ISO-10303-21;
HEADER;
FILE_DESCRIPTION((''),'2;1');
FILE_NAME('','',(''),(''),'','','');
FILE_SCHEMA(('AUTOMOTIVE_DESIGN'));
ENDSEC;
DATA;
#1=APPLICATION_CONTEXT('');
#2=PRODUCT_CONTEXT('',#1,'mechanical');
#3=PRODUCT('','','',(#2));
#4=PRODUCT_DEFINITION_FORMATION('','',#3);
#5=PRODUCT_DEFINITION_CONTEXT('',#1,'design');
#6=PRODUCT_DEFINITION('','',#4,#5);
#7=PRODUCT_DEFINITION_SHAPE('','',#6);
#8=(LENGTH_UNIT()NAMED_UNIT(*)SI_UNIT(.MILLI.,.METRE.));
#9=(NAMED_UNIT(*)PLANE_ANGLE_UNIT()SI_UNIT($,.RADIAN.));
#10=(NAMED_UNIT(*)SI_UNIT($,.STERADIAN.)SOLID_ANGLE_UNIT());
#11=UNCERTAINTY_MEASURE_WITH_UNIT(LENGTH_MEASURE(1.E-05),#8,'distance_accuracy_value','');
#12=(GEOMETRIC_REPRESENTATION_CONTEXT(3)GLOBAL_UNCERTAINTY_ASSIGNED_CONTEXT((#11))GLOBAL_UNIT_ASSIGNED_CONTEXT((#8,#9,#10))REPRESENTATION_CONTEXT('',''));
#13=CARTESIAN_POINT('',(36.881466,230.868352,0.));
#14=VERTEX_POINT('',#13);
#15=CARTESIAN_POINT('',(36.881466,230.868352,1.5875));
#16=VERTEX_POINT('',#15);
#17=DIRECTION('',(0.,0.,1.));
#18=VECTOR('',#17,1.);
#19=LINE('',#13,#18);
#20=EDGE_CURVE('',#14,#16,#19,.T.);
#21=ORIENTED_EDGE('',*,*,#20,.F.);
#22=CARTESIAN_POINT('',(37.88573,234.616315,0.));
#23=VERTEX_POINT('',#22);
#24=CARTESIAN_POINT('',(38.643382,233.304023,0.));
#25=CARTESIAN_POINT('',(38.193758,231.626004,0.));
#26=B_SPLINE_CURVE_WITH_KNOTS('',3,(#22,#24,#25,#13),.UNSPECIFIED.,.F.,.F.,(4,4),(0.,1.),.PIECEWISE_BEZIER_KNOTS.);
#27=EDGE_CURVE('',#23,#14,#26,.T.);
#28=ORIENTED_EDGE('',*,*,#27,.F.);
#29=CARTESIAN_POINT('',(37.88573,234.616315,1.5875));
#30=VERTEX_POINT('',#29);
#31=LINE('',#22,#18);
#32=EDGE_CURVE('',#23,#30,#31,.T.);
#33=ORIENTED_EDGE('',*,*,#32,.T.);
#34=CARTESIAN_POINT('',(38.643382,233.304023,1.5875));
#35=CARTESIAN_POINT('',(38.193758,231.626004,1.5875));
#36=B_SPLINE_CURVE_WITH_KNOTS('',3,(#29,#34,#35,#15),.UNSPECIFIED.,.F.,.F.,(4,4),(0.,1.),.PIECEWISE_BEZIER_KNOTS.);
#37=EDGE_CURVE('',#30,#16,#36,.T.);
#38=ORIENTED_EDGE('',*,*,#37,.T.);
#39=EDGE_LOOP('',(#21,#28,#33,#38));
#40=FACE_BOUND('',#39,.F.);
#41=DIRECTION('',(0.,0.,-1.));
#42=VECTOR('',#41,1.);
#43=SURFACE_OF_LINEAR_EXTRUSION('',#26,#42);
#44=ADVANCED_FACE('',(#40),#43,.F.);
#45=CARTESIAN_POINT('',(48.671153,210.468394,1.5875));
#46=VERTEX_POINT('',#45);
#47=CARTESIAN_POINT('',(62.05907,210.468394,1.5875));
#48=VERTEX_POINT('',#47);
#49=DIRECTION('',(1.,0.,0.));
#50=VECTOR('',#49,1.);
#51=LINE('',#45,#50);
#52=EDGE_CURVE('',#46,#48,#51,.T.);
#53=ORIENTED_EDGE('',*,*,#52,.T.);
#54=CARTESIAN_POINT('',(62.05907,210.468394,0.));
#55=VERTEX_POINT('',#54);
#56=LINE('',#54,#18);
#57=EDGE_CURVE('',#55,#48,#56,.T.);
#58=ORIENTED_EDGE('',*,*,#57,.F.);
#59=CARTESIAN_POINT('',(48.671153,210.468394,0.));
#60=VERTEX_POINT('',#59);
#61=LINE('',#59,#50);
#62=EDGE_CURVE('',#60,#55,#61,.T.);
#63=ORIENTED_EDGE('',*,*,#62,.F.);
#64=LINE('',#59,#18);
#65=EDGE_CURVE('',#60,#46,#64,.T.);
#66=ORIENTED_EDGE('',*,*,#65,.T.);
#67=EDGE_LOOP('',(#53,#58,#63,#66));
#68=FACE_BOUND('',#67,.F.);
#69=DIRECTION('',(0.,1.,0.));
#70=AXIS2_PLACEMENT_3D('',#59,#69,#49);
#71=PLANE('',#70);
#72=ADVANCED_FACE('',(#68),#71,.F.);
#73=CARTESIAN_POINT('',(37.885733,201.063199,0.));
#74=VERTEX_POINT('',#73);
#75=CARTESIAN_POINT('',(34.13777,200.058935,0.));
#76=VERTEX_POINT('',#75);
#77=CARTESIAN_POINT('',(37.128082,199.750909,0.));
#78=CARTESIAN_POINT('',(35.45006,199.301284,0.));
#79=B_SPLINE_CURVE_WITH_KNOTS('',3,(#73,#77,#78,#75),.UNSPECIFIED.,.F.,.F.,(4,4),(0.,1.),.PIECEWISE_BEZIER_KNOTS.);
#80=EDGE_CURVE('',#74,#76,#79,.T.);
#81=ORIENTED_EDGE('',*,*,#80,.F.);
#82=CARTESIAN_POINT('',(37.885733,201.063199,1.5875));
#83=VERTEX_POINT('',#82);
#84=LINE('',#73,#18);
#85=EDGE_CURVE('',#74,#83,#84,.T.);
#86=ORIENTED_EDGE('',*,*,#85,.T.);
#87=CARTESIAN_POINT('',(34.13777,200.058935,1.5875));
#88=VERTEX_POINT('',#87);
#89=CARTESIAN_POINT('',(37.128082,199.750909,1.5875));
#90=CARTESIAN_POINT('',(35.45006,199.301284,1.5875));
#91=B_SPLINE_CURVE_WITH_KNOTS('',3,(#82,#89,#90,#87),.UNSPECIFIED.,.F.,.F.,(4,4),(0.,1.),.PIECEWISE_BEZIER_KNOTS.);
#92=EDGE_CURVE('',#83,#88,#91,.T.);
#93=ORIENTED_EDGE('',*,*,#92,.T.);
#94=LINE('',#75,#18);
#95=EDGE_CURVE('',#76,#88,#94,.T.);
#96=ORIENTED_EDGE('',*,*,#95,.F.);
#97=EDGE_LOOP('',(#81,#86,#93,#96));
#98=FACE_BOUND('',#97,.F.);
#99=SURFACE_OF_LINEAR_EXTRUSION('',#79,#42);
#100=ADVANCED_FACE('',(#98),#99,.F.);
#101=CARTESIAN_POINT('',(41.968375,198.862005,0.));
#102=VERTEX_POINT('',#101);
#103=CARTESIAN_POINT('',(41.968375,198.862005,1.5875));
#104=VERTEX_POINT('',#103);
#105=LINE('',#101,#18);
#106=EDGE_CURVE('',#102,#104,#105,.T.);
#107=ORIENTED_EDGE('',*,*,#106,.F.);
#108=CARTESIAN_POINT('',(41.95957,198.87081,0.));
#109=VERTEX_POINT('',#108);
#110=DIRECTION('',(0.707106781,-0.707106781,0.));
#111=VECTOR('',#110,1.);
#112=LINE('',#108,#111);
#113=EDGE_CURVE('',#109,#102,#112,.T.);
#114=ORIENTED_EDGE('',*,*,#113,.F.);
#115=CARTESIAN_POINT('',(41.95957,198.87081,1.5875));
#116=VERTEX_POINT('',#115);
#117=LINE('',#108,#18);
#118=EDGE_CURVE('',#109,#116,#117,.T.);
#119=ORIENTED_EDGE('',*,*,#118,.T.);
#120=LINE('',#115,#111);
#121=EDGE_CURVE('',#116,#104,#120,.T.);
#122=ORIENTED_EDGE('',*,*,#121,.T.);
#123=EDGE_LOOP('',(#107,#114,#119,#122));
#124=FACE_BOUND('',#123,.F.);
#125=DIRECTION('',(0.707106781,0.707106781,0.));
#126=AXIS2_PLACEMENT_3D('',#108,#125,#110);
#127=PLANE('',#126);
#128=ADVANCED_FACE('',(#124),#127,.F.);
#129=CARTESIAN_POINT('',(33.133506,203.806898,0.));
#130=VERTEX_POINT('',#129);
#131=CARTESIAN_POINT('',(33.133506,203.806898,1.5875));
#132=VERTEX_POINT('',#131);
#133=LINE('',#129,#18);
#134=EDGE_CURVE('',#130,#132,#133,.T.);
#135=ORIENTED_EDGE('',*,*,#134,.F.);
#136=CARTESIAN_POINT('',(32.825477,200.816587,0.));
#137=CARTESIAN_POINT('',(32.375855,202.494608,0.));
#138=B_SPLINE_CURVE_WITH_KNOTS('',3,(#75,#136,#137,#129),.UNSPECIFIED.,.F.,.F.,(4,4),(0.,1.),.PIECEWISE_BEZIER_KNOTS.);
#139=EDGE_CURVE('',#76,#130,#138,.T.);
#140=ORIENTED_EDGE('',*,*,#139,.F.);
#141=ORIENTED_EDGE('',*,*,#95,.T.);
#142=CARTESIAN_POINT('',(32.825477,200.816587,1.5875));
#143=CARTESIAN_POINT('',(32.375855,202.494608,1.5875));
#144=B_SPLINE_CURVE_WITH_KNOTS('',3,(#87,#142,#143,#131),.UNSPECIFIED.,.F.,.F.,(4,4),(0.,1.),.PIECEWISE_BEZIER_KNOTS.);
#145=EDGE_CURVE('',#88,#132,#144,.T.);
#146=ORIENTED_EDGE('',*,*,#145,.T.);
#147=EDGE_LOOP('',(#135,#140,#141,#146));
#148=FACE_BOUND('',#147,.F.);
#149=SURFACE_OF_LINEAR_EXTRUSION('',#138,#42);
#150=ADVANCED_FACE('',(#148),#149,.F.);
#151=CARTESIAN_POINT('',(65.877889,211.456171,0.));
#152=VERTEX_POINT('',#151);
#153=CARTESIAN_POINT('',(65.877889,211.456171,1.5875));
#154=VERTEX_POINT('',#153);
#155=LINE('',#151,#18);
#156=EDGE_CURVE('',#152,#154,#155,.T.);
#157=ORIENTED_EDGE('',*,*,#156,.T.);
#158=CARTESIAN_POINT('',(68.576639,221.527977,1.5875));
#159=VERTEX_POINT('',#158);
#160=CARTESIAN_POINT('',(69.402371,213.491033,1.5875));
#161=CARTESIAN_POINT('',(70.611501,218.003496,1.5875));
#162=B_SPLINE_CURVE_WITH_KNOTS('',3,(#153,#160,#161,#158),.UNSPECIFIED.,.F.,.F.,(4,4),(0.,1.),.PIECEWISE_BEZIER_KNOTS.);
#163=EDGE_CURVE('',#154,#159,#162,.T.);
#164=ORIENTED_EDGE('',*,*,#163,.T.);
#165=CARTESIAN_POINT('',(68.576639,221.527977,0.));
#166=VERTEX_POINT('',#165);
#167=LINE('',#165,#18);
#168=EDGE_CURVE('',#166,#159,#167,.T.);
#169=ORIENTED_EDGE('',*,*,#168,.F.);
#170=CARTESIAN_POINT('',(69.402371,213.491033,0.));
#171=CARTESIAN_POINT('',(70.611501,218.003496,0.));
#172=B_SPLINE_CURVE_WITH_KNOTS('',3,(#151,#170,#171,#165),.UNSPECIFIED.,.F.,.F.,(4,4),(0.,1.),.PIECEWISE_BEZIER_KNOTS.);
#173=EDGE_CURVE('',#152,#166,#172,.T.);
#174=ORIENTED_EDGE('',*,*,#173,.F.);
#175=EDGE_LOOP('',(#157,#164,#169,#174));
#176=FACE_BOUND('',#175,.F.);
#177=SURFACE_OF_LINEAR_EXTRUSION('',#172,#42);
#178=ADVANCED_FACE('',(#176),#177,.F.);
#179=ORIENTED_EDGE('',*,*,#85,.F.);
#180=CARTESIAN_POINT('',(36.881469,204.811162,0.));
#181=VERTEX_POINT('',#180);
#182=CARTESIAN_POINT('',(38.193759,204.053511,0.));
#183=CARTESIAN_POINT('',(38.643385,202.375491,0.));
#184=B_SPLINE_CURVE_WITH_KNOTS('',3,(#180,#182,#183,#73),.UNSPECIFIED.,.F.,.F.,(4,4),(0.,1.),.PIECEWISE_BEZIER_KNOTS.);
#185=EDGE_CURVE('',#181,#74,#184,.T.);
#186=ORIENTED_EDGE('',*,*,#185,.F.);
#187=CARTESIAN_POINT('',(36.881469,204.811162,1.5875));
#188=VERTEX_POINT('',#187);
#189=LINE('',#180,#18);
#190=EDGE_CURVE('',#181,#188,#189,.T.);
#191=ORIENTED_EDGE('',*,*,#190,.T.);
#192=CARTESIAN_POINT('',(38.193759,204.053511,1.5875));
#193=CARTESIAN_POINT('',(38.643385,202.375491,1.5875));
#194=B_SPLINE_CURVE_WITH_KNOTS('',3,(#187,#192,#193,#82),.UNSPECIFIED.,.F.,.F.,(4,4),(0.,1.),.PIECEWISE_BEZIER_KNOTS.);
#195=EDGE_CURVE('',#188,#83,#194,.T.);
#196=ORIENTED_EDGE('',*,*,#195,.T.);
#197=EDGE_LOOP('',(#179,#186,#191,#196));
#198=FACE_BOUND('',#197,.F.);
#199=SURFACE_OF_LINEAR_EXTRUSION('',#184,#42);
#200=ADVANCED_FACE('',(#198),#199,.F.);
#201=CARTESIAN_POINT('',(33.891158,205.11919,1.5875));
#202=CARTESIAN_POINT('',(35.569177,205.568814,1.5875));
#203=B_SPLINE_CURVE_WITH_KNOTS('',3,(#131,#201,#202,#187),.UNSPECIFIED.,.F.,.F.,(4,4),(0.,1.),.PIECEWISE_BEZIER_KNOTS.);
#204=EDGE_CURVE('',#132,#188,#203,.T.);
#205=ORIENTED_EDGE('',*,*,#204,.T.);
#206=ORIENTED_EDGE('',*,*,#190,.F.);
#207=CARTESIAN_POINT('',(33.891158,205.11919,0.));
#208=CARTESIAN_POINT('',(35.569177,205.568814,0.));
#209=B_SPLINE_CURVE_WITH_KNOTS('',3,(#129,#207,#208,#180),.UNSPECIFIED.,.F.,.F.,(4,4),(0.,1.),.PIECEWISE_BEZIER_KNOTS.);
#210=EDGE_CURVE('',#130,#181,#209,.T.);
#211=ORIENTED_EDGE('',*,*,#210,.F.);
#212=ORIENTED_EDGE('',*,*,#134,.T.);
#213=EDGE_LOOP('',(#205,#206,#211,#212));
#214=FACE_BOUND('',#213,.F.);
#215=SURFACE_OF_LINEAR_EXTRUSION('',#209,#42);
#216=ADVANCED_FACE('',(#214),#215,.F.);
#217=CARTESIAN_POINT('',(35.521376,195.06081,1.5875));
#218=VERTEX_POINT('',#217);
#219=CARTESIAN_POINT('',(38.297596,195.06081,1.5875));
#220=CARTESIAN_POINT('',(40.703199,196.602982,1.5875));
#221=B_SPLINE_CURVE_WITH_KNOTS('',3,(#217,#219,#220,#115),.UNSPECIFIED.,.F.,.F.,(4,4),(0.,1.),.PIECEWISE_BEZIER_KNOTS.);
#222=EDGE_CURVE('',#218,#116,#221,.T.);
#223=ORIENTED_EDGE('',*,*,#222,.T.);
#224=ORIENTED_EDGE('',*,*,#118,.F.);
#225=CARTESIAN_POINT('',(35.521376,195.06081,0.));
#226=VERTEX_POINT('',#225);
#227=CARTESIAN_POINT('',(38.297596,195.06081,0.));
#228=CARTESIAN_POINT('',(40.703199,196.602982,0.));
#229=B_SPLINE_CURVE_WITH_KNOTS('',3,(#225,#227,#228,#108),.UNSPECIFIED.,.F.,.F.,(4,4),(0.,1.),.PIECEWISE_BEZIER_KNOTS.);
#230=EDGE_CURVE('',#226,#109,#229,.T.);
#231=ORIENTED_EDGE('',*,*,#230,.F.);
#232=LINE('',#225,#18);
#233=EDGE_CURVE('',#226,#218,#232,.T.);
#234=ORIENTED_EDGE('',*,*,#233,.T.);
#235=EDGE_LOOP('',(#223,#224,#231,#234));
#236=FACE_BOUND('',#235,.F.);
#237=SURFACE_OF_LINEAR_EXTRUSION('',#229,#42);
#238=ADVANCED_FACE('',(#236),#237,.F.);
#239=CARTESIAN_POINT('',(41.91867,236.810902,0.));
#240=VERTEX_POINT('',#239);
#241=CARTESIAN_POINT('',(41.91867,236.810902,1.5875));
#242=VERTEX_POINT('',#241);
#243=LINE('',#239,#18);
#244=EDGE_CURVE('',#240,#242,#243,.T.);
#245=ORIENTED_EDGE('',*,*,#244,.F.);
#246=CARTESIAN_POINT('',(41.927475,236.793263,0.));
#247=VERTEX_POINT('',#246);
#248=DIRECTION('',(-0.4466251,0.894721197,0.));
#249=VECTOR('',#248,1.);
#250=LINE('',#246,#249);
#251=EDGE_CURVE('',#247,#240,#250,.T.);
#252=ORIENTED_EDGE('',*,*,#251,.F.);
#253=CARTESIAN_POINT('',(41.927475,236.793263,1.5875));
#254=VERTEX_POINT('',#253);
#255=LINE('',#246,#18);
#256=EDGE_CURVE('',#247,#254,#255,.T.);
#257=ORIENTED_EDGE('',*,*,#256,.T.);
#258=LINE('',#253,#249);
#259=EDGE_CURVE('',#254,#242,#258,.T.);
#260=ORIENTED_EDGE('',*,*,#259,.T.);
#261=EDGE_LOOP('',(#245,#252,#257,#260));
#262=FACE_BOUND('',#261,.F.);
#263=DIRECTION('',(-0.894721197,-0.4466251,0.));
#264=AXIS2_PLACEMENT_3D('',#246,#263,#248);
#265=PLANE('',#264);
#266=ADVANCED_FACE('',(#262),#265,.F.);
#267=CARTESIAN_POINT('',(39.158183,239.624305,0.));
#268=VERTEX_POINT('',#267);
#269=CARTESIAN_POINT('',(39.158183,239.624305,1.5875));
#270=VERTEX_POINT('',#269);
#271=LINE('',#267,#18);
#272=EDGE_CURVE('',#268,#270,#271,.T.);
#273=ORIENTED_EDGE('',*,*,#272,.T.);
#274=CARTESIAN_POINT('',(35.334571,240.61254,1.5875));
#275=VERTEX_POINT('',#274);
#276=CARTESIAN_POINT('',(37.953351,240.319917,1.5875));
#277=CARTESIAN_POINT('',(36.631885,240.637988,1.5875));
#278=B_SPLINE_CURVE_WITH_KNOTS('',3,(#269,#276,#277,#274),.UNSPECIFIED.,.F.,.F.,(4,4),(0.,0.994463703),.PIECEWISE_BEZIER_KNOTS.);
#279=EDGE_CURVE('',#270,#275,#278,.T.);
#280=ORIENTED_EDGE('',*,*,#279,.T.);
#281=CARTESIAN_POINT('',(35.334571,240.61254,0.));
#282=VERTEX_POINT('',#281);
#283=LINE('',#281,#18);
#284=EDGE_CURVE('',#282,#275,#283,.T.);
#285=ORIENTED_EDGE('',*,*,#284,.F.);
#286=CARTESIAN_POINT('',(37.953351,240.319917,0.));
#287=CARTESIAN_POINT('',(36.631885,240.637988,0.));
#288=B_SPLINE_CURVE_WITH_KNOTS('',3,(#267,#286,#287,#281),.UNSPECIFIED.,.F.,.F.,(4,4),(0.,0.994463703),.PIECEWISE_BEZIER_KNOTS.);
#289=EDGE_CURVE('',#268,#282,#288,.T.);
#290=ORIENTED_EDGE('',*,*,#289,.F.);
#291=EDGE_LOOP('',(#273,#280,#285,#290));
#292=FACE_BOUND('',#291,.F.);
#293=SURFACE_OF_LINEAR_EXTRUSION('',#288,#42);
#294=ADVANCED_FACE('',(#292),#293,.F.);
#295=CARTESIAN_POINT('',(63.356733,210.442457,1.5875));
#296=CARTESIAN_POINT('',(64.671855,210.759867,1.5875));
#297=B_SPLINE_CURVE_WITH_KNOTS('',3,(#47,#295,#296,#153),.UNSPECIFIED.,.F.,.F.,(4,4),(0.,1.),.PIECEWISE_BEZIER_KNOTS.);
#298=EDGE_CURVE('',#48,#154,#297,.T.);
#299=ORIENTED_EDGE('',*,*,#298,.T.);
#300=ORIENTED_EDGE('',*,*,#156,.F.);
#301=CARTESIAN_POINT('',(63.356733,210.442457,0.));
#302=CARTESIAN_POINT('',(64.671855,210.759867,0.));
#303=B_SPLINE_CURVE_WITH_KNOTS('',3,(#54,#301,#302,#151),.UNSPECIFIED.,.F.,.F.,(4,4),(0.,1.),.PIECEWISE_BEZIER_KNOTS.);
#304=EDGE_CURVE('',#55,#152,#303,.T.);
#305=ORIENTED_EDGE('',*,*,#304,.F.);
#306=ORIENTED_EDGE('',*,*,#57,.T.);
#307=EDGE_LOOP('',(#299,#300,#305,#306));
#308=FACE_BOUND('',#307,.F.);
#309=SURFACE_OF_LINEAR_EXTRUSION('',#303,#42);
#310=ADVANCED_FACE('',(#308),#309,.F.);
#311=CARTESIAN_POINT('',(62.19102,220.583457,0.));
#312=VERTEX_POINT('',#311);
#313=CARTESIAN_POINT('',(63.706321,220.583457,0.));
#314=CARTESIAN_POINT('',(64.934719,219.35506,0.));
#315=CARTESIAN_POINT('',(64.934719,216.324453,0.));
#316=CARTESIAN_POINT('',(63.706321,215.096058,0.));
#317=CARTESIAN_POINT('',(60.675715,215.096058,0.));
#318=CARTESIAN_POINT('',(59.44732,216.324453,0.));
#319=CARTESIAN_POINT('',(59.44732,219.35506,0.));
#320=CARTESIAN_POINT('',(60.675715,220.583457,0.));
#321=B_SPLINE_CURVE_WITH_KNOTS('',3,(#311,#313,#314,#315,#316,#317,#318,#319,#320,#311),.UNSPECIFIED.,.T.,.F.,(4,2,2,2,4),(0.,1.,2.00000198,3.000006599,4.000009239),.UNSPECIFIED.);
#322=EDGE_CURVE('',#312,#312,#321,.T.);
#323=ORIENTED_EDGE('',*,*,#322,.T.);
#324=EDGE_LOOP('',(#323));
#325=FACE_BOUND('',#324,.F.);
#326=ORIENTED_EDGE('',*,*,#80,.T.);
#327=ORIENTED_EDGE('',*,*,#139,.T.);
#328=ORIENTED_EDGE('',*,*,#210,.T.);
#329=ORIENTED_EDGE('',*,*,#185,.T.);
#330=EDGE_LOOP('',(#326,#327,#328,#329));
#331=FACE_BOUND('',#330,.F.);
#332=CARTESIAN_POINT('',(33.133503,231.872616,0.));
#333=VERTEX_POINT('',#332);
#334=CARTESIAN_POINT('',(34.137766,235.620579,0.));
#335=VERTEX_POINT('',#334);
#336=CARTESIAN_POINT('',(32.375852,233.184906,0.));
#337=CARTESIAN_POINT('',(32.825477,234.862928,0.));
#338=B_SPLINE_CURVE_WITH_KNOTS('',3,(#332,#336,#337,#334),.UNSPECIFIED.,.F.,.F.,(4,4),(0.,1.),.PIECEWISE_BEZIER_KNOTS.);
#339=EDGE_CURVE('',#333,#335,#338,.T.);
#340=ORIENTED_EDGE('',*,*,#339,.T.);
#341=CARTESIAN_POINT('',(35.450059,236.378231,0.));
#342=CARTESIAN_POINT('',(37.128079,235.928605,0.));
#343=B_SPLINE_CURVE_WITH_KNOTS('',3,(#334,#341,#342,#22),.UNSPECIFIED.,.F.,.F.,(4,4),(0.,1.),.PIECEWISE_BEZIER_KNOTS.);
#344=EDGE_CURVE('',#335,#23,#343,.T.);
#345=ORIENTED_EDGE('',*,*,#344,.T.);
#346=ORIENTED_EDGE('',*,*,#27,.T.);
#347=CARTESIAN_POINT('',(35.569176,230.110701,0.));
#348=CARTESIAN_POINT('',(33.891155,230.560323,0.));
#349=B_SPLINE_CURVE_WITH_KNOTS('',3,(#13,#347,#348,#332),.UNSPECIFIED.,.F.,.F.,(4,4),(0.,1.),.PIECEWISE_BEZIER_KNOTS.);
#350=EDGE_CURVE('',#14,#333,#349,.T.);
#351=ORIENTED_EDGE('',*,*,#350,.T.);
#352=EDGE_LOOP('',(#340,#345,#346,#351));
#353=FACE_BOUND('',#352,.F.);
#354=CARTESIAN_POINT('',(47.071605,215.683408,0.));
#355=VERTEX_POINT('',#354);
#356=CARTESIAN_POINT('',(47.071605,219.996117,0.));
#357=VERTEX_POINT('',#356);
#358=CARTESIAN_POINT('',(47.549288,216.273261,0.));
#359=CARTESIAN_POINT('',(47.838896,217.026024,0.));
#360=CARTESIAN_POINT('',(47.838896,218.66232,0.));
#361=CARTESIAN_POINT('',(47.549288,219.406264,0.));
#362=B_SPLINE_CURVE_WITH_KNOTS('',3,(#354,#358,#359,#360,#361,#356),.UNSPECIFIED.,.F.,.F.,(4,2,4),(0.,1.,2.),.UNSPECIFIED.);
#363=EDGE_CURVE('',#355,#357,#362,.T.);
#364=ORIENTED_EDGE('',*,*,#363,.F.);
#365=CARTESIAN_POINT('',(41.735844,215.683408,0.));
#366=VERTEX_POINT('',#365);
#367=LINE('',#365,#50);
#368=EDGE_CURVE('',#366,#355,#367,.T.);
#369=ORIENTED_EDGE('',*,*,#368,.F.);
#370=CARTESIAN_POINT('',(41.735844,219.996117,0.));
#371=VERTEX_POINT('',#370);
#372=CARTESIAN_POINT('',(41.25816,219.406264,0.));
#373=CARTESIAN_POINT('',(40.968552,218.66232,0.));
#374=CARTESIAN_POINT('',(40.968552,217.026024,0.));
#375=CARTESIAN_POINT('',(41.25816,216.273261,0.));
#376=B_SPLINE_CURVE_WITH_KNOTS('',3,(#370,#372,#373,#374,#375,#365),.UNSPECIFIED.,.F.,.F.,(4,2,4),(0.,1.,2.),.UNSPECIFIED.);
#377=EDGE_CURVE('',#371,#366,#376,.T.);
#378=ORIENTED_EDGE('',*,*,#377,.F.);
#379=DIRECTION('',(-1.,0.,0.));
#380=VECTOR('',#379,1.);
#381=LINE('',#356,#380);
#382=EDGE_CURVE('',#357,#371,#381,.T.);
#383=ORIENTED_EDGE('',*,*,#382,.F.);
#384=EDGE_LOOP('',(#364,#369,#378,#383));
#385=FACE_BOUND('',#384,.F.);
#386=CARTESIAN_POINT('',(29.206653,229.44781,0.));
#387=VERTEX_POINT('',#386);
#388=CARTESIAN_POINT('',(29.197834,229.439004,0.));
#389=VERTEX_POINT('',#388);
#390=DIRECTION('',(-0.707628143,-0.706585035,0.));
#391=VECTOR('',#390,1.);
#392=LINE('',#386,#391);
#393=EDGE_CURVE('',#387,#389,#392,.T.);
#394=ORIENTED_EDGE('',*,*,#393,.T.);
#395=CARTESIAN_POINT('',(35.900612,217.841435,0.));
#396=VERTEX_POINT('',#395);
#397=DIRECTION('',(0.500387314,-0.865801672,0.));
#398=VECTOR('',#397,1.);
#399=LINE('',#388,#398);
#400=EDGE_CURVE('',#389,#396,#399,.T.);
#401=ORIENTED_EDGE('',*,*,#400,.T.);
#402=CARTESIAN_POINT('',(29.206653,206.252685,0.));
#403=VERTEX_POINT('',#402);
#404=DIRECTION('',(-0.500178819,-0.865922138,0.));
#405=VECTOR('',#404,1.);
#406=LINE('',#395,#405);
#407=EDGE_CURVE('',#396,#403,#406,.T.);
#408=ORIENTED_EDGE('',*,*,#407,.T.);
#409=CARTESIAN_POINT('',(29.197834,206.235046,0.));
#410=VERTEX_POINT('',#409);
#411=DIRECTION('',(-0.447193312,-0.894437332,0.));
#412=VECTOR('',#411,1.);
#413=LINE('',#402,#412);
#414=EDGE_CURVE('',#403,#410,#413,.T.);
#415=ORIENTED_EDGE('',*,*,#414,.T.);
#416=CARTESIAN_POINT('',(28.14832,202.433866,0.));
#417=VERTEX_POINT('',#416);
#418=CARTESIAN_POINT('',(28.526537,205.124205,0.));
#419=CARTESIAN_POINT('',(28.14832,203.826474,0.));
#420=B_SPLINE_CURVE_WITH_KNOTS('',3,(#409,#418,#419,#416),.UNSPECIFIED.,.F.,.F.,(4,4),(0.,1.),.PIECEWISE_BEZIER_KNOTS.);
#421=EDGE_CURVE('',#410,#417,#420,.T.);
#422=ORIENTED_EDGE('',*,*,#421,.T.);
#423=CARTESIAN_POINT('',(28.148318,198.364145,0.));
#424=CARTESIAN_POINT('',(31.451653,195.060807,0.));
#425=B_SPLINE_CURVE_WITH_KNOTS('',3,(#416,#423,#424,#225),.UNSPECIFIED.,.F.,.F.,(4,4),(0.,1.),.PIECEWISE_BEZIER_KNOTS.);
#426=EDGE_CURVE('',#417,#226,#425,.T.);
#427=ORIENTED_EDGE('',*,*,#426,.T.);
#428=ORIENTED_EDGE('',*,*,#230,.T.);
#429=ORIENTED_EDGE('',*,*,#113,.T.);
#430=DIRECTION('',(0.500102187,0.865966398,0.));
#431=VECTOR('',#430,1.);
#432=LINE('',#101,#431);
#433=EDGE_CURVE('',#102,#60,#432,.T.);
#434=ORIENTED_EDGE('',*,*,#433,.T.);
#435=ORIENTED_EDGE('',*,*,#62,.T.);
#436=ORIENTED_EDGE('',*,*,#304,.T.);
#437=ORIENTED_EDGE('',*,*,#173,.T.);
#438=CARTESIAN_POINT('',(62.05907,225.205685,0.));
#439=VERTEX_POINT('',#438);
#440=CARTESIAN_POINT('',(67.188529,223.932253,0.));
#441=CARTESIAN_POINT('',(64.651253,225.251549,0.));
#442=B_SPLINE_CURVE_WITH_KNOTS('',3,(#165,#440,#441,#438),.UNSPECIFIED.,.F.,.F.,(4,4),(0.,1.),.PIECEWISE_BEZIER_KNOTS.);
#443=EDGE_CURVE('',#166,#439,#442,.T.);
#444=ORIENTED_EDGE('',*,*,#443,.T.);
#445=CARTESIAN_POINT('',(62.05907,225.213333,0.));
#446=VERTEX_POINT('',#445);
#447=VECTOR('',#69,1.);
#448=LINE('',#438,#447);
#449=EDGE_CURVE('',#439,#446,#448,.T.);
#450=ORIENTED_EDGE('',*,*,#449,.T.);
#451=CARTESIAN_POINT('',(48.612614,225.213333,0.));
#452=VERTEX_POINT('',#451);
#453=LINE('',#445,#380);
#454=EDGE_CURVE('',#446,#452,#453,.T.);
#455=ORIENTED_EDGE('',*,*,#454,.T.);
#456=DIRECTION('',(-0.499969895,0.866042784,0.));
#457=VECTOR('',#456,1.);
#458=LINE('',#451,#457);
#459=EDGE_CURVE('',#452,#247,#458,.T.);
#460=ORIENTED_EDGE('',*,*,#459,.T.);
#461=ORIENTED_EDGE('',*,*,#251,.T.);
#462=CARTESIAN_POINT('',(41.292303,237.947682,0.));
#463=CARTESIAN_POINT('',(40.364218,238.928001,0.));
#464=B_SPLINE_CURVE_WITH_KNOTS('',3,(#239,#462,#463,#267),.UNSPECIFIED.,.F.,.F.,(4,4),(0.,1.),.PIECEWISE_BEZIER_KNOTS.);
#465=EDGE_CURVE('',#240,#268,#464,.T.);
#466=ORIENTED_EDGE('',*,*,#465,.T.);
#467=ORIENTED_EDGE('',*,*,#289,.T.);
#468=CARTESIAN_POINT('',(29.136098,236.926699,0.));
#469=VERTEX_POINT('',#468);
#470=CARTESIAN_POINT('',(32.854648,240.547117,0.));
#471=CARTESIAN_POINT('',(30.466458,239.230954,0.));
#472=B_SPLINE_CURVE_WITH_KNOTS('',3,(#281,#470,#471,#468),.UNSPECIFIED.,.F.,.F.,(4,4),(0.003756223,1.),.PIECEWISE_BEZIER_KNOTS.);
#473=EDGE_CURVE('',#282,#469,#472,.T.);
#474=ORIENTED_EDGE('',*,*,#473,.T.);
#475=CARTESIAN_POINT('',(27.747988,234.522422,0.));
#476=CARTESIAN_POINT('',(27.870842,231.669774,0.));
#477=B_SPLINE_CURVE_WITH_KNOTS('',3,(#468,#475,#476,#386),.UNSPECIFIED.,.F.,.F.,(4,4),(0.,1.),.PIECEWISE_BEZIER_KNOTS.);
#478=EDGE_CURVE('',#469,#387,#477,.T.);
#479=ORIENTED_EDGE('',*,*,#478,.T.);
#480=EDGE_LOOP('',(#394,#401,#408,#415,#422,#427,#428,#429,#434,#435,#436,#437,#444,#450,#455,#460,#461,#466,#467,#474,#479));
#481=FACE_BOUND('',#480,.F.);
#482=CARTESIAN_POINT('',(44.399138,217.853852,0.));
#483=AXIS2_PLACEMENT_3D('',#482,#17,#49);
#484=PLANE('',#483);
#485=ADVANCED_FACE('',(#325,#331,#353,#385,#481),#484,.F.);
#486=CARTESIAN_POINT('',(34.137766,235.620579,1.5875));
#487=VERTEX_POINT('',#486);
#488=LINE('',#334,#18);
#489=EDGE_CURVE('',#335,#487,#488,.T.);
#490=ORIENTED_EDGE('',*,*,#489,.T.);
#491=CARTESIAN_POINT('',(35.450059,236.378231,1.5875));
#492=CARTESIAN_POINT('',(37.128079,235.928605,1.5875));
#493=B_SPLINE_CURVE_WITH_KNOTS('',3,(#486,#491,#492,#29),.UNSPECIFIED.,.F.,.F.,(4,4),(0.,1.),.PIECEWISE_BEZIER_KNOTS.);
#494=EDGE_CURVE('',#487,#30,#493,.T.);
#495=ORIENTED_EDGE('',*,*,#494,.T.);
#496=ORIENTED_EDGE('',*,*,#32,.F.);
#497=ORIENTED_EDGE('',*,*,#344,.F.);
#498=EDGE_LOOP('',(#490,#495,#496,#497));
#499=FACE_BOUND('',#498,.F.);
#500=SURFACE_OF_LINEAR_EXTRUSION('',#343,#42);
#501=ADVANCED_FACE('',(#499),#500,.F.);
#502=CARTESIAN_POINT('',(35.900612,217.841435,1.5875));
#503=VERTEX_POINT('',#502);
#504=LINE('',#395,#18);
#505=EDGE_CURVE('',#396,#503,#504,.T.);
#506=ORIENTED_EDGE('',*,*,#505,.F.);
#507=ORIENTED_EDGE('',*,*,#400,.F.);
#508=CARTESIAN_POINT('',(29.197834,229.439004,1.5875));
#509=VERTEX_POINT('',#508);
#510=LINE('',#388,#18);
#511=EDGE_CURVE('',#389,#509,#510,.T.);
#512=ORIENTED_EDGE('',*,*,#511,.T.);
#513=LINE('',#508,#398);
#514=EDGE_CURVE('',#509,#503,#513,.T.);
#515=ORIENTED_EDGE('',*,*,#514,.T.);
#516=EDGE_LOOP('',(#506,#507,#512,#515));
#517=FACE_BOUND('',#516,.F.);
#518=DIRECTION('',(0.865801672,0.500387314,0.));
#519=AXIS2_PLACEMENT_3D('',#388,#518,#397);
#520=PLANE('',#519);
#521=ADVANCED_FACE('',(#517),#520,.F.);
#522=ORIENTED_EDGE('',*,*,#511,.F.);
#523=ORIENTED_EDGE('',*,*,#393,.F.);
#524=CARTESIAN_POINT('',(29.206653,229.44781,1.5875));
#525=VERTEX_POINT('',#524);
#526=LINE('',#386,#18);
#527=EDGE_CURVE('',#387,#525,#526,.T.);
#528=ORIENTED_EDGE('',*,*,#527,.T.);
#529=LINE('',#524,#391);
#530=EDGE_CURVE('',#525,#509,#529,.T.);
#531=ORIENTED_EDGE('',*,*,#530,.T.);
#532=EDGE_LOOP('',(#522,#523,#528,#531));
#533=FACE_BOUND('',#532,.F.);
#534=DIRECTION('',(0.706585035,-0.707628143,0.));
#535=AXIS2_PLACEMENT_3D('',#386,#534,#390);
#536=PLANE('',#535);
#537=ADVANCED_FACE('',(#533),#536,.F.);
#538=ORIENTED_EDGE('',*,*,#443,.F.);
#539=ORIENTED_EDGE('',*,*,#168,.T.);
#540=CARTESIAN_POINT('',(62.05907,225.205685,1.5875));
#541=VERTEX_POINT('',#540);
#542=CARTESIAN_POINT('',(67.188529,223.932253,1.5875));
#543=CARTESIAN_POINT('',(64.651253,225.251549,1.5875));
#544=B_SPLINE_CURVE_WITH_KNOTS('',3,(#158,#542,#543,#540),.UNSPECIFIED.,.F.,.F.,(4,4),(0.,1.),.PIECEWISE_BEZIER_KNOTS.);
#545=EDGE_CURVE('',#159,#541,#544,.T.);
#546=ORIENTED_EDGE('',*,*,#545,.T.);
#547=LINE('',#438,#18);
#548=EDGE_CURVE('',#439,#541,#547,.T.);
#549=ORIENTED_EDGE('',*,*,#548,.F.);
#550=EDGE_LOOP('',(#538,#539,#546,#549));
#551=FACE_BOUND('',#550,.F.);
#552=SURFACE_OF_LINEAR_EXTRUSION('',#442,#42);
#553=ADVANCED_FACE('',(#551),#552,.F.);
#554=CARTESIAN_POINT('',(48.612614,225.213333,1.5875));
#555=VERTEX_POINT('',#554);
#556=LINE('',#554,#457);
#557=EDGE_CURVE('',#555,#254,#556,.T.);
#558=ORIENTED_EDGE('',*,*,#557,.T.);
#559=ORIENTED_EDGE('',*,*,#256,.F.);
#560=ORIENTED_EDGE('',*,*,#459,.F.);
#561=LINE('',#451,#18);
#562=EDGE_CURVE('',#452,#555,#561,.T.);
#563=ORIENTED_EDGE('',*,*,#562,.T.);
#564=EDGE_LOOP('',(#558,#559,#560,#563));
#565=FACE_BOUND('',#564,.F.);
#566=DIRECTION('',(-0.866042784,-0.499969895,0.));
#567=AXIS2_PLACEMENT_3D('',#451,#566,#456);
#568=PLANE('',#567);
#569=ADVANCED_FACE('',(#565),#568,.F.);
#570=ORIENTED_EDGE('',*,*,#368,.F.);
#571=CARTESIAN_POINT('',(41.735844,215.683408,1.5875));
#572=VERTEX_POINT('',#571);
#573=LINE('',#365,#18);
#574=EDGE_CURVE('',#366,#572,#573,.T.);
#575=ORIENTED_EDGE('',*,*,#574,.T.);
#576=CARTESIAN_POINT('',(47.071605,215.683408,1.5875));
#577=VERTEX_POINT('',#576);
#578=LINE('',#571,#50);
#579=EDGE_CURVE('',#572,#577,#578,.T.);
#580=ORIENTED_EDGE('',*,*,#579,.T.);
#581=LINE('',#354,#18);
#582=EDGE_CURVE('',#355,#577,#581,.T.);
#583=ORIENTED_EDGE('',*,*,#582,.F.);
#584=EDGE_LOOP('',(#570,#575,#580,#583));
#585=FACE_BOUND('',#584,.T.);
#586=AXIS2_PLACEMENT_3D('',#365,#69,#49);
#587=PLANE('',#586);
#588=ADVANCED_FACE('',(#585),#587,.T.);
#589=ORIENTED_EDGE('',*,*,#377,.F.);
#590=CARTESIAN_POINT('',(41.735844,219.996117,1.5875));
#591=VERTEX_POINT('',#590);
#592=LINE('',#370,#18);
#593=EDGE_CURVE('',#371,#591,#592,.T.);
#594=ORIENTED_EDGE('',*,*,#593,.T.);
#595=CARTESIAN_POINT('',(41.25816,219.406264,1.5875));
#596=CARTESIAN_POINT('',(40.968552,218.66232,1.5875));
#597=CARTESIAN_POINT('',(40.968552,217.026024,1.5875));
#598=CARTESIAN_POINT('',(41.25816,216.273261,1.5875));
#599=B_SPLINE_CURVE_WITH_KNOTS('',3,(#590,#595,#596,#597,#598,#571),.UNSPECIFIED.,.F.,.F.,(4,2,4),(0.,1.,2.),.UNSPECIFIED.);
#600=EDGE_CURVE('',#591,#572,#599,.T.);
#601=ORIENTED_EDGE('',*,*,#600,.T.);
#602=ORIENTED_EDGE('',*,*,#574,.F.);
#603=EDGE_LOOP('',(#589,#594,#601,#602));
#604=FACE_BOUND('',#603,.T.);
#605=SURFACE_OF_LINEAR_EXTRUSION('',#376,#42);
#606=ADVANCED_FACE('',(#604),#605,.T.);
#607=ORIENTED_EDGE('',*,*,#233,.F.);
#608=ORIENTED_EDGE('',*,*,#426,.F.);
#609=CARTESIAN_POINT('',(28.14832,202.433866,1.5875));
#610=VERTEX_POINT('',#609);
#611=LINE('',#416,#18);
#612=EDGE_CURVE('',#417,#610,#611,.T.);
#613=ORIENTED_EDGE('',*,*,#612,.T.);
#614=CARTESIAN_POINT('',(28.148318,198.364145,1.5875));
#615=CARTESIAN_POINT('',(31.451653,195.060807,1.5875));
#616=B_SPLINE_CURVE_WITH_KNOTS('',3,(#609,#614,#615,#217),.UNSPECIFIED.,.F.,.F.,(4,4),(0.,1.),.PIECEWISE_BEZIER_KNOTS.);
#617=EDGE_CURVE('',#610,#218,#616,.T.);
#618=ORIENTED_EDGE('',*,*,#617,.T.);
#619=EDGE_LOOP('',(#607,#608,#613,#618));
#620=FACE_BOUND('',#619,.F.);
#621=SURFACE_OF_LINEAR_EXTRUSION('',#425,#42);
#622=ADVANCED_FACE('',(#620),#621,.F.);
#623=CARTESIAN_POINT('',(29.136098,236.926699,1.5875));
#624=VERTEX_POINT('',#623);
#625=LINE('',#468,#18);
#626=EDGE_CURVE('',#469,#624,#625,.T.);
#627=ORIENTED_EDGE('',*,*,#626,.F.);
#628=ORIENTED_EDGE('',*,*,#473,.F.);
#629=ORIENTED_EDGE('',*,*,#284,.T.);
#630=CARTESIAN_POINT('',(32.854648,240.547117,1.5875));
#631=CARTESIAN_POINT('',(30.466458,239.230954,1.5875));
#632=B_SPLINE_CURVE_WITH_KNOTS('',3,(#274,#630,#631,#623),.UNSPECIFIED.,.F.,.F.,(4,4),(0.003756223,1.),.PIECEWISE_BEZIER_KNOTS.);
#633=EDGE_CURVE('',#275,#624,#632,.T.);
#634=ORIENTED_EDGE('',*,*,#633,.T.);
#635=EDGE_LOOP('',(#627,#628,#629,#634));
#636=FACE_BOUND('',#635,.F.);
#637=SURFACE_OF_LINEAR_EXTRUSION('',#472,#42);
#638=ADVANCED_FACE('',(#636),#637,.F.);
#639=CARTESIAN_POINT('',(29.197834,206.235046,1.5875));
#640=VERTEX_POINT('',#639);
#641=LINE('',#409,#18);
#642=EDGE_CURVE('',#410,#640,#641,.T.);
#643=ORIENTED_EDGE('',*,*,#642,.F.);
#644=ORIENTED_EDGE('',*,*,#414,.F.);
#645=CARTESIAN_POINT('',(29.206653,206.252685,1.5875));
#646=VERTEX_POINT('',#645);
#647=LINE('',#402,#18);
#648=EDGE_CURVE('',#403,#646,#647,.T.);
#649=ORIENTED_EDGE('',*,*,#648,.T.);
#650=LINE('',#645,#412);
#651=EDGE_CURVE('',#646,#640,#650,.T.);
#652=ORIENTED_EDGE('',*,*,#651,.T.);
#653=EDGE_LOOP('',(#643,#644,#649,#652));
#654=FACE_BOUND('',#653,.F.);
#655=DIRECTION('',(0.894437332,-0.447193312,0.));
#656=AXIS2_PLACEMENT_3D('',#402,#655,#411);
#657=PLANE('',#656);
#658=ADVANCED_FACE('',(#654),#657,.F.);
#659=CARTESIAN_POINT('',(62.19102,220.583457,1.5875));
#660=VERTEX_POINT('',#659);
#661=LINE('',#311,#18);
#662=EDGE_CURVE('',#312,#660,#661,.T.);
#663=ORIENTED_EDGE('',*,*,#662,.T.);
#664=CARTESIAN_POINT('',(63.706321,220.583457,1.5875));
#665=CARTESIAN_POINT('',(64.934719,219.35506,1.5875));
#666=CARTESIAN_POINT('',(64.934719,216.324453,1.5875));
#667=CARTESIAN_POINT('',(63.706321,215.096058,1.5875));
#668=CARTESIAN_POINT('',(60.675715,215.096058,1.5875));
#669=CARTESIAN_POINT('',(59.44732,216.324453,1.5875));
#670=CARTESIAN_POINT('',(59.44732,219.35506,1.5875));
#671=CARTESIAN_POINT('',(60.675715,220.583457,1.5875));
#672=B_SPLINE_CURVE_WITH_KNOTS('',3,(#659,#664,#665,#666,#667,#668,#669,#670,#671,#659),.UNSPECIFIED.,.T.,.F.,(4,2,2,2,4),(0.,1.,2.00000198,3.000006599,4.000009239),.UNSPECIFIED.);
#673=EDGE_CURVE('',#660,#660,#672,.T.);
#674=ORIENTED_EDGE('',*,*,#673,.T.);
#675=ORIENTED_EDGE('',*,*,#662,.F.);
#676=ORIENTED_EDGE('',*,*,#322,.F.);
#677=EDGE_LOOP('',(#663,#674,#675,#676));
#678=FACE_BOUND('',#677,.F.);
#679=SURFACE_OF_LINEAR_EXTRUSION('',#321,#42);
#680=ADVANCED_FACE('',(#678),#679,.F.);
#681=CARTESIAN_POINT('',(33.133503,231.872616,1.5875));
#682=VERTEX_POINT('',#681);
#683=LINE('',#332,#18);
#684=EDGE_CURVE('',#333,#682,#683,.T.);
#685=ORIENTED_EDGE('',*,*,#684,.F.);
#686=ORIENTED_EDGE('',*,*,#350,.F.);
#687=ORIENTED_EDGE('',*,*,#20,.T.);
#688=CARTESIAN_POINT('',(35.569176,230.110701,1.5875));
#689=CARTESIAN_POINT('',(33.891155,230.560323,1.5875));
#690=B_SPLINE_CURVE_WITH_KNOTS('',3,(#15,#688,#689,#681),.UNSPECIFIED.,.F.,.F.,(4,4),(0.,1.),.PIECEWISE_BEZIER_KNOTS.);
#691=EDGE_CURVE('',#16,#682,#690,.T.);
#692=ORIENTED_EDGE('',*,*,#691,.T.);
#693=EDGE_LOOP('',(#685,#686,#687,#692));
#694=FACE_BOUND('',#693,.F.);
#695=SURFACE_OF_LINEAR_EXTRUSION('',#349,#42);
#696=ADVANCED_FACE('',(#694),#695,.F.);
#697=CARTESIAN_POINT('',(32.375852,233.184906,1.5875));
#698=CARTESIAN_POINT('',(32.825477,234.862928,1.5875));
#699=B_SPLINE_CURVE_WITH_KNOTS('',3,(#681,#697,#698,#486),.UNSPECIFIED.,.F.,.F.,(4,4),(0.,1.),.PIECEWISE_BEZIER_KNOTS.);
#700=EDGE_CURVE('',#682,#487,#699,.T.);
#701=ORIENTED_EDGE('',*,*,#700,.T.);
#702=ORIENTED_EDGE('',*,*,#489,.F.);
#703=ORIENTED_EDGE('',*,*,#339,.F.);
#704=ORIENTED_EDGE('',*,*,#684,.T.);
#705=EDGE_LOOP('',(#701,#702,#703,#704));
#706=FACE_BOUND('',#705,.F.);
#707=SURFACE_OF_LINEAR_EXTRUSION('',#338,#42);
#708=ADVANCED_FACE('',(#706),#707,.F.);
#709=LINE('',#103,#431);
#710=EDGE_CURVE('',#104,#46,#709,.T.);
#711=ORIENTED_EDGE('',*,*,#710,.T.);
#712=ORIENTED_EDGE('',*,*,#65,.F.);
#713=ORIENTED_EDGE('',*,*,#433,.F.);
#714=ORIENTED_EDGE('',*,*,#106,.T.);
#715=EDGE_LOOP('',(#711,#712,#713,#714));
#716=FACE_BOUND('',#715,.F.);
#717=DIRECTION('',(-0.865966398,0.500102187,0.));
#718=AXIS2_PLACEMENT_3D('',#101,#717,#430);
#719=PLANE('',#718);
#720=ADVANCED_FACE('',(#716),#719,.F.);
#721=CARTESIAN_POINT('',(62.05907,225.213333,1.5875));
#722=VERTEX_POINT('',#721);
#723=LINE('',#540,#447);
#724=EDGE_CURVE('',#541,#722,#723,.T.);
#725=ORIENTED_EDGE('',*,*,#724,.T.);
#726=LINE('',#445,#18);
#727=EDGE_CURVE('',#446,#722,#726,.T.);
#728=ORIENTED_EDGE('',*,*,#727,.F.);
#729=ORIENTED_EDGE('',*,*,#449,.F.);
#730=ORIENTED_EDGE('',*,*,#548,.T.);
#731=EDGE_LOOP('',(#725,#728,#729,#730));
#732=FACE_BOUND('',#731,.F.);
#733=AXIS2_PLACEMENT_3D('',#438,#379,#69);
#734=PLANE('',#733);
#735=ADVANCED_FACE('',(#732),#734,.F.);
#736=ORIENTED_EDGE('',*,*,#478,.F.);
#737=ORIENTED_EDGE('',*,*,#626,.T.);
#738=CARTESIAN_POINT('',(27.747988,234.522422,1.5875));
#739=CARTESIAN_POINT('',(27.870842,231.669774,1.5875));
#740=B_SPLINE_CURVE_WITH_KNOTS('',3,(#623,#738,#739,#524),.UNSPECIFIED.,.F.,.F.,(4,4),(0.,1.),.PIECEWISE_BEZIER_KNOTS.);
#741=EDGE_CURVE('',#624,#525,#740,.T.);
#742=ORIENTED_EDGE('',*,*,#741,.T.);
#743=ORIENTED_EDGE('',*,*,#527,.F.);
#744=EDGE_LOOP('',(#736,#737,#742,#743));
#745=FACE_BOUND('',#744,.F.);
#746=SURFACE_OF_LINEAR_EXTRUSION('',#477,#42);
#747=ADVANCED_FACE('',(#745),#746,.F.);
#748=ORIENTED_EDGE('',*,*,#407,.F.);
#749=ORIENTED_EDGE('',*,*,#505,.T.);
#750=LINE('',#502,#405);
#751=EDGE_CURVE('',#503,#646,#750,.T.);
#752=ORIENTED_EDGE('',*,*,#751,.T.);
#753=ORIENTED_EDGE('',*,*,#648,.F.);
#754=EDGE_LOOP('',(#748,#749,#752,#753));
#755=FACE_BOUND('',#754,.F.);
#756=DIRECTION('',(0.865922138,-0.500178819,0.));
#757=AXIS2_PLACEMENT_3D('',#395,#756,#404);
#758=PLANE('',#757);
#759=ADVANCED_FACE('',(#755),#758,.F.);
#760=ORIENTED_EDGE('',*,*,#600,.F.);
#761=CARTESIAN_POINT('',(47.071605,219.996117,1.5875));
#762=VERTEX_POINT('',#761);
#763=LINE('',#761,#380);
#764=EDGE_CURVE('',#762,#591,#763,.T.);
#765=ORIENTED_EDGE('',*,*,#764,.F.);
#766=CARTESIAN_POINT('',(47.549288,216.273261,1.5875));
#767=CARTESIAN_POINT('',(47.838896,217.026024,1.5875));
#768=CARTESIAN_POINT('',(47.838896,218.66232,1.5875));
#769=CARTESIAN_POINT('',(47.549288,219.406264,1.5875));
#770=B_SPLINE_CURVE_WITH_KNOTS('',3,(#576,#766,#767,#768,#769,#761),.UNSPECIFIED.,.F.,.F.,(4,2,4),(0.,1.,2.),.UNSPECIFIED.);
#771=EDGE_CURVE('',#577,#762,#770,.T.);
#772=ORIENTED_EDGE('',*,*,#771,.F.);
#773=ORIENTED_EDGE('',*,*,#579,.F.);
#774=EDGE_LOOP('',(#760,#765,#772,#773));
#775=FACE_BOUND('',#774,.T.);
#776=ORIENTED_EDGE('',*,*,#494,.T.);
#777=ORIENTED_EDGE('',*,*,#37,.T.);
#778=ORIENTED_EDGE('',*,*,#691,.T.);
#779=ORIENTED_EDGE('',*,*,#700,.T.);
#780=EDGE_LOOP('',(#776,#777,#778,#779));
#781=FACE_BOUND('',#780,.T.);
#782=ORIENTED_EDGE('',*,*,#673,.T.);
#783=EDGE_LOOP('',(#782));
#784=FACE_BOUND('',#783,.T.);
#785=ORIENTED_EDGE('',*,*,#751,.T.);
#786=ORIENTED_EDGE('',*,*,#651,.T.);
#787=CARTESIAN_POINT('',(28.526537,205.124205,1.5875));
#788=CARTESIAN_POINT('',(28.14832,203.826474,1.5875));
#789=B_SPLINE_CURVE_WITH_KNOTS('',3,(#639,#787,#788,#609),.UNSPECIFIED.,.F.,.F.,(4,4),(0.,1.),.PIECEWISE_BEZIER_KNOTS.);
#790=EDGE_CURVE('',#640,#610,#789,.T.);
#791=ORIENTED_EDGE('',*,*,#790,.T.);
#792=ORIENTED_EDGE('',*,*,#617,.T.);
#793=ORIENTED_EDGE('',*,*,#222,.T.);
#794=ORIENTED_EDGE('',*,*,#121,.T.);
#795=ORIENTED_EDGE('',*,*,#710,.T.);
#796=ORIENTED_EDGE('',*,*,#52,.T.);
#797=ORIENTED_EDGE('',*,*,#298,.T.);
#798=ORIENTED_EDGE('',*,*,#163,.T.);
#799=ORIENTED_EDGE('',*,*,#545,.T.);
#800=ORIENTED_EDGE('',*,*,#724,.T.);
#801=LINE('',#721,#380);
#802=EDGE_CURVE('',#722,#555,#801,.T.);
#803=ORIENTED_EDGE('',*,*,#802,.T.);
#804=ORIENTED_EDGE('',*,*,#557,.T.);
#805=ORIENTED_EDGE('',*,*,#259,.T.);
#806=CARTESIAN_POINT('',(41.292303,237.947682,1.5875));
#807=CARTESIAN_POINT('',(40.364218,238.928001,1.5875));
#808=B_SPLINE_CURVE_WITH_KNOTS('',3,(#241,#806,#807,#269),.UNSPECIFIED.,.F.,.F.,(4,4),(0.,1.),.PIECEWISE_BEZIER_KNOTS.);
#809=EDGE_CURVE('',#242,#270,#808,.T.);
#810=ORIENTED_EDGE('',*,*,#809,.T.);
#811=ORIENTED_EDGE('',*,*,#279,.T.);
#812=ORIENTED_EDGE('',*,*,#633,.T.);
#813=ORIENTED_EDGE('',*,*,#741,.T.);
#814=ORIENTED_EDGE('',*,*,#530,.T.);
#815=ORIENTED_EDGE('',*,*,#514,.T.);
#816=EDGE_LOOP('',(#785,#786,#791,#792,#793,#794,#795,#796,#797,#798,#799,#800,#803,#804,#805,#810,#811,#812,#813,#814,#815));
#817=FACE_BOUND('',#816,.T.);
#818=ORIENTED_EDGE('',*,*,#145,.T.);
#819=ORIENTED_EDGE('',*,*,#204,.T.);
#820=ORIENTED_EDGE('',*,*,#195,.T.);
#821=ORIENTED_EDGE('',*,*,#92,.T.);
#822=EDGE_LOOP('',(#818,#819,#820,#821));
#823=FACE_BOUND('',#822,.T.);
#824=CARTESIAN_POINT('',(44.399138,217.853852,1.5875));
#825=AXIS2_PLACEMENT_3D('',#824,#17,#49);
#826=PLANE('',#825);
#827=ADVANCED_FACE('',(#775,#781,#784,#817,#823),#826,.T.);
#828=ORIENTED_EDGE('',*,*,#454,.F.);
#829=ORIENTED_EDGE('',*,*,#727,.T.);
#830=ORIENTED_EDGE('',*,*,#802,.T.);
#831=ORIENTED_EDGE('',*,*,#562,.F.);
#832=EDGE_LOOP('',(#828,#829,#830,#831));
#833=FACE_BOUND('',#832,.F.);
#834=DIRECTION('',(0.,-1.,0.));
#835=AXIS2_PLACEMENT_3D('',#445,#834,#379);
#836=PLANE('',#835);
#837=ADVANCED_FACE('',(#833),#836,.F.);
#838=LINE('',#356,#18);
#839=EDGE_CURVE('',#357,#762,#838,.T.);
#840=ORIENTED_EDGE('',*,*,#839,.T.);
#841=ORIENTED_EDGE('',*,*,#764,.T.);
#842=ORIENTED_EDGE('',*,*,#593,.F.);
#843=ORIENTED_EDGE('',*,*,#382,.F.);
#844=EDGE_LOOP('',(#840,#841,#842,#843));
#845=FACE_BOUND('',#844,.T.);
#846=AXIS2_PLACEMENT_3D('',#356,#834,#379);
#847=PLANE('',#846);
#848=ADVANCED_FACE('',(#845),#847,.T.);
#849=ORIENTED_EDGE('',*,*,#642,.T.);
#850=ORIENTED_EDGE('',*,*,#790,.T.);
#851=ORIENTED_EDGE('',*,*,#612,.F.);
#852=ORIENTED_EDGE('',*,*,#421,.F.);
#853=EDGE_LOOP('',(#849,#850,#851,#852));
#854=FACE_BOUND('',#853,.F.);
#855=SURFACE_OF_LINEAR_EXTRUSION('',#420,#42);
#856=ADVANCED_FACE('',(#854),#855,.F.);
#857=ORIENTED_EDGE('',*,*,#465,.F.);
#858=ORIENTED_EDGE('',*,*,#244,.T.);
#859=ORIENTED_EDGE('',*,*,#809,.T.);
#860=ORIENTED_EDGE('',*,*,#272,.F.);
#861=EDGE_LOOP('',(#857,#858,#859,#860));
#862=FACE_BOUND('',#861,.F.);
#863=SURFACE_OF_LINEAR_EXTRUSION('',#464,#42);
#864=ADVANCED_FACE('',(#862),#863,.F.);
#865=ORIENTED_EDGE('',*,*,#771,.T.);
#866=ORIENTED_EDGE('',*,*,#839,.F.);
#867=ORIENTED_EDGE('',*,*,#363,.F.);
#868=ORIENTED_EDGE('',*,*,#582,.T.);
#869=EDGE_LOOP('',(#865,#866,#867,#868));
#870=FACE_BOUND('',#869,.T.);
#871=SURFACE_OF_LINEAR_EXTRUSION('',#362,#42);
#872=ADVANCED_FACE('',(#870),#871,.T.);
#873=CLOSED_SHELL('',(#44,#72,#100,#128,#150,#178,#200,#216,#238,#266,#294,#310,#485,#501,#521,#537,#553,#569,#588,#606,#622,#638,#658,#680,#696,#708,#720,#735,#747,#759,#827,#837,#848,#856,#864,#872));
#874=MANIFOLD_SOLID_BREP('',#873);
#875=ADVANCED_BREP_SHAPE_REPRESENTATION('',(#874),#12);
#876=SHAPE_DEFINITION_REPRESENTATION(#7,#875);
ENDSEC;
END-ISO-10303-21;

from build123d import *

# Parameters (mm, degrees)
BOSS_EXTRUDE5_DEPTH = 1.5875


with BuildPart() as part:
    # carrier → Boss-Extrude5 (new body)
    with BuildSketch(Plane(origin=(-89.612357323, 67.458483608, 0), x_dir=(1, 0, 0), z_dir=(0, 0, 1))):
        with BuildLine():
            Line((118.819010038, 161.989326691), (118.810191038, 161.980520691))
            Line((118.810191038, 161.980520691), (125.512969038, 150.382951691))
            Line((125.512969038, 150.382951691), (118.819010038, 138.794201691))
            Line((118.819010038, 138.794201691), (118.810191038, 138.776562691))
            add(Edge.make_bspline(
                [(118.810191038, 138.776562691), (118.138894038, 137.665721691), (117.760677038, 136.367990691), (117.760677038, 134.975382691)],
                knots=[0, 0, 0, 0, 1, 1, 1, 1], degree=3))
            add(Edge.make_bspline(
                [(117.760677038, 134.975382691), (117.760675038, 130.905661691), (121.064010038, 127.602323691), (125.133733038, 127.602326691)],
                knots=[0, 0, 0, 0, 1, 1, 1, 1], degree=3))
            add(Edge.make_bspline(
                [(125.133733038, 127.602326691), (127.909953038, 127.602326691), (130.315556038, 129.144498691), (131.571927038, 131.412326691)],
                knots=[0, 0, 0, 0, 1, 1, 1, 1], degree=3))
            Line((131.571927038, 131.412326691), (131.580732038, 131.403521691))
            Line((131.580732038, 131.403521691), (138.283510038, 143.009910691))
            Line((138.283510038, 143.009910691), (151.653788038, 143.009910691))
            Line((151.653788038, 143.009910691), (151.671427038, 143.009910691))
            add(Edge.make_bspline(
                [(151.671427038, 143.009910691), (152.969090038, 142.983973691), (154.284212038, 143.301383691), (155.490246038, 143.997687691)],
                knots=[0, 0, 0, 0, 1, 1, 1, 1], degree=3))
            add(Edge.make_bspline(
                [(155.490246038, 143.997687691), (159.014728038, 146.032549691), (160.223858038, 150.545012691), (158.188996038, 154.069493691)],
                knots=[0, 0, 0, 0, 1, 1, 1, 1], degree=3))
            add(Edge.make_bspline(
                [(158.188996038, 154.069493691), (156.800886038, 156.473769691), (154.263610038, 157.793065691), (151.671427038, 157.747201691)],
                knots=[0, 0, 0, 0, 1, 1, 1, 1], degree=3))
            Line((151.671427038, 157.747201691), (151.671427038, 157.754849091))
            Line((151.671427038, 157.754849091), (138.224971754, 157.754849091))
            Line((138.224971754, 157.754849091), (131.539832754, 169.334779091))
            Line((131.539832754, 169.334779091), (131.531027754, 169.352418091))
            add(Edge.make_bspline(
                [(131.531027754, 169.352418091), (130.904660754, 170.489198091), (129.976575754, 171.469517091), (128.770540754, 172.165821091)],
                knots=[0, 0, 0, 0, 1, 1, 1, 1], degree=3))
            add(Edge.make_bspline(
                [(128.770540754, 172.165821091), (127.565708199, 172.861433534), (126.244241887, 173.179504317), (124.946928377, 173.154056045)],
                knots=[0, 0, 0, 0, 0.994463703, 0.994463703, 0.994463703, 0.994463703], degree=3))
            add(Edge.make_bspline(
                [(124.946928377, 173.154056045), (122.467005204, 173.088633853), (120.078815068, 171.772470761), (118.748455038, 169.468215691)],
                knots=[0.003756223, 0.003756223, 0.003756223, 0.003756223, 1, 1, 1, 1], degree=3))
            add(Edge.make_bspline(
                [(118.748455038, 169.468215691), (117.360345038, 167.063938691), (117.483199038, 164.211290691), (118.819010038, 161.989326691)],
                knots=[0, 0, 0, 0, 1, 1, 1, 1], degree=3))
        make_face()
        with BuildLine():
            Line((131.348201, 148.224924), (136.683962, 148.224924))
            add(Edge.make_bspline(
                [(136.683962, 148.224924), (137.161645, 148.814777), (137.451253, 149.56754), (137.451253, 150.385688)],
                knots=[0, 0, 0, 0, 1, 1, 1, 1], degree=3))
            add(Edge.make_bspline(
                [(137.451253, 150.385688), (137.451253, 151.203836), (137.161645, 151.94778), (136.683962, 152.537633)],
                knots=[0, 0, 0, 0, 1, 1, 1, 1], degree=3))
            Line((136.683962, 152.537633), (131.348201, 152.537633))
            add(Edge.make_bspline(
                [(131.348201, 152.537633), (130.870517, 151.94778), (130.580909, 151.203836), (130.580909, 150.385688)],
                knots=[0, 0, 0, 0, 1, 1, 1, 1], degree=3))
            add(Edge.make_bspline(
                [(130.580909, 150.385688), (130.580909, 149.56754), (130.870517, 148.814777), (131.348201, 148.224924)],
                knots=[0, 0, 0, 0, 1, 1, 1, 1], degree=3))
        make_face(mode=Mode.SUBTRACT)
        with BuildLine():
            add(Edge.make_bspline(
                [(154.547076, 150.381274), (154.547076, 148.865969), (153.318678, 147.637574), (151.803377, 147.637574)],
                knots=[0, 0, 0, 0, 1, 1, 1, 1], degree=3))
            add(Edge.make_bspline(
                [(151.803377, 147.637574), (150.288072, 147.637574), (149.059677, 148.865969), (149.059677, 150.381274)],
                knots=[0, 0, 0, 0, 1, 1, 1, 1], degree=3))
            add(Edge.make_bspline(
                [(149.059677, 150.381274), (149.059677, 151.896576), (150.288072, 153.124973), (151.803377, 153.124973)],
                knots=[0, 0, 0, 0, 1, 1, 1, 1], degree=3))
            add(Edge.make_bspline(
                [(151.803377, 153.124973), (153.318678, 153.124973), (154.547076, 151.896576), (154.547076, 150.381274)],
                knots=[0, 0, 0, 0, 1, 1, 1, 1], degree=3))
        make_face(mode=Mode.SUBTRACT)
        with BuildLine():
            add(Edge.make_bspline(
                [(123.750123, 168.162095), (125.062416, 168.919747), (126.740436, 168.470121), (127.498087, 167.157831)],
                knots=[0, 0, 0, 0, 1, 1, 1, 1], degree=3))
            add(Edge.make_bspline(
                [(127.498087, 167.157831), (128.255739, 165.845539), (127.806115, 164.16752), (126.493823, 163.409868)],
                knots=[0, 0, 0, 0, 1, 1, 1, 1], degree=3))
            add(Edge.make_bspline(
                [(126.493823, 163.409868), (125.181533, 162.652217), (123.503512, 163.101839), (122.74586, 164.414132)],
                knots=[0, 0, 0, 0, 1, 1, 1, 1], degree=3))
            add(Edge.make_bspline(
                [(122.74586, 164.414132), (121.988209, 165.726422), (122.437834, 167.404444), (123.750123, 168.162095)],
                knots=[0, 0, 0, 0, 1, 1, 1, 1], degree=3))
        make_face(mode=Mode.SUBTRACT)
        with BuildLine():
            add(Edge.make_bspline(
                [(123.750127, 132.600451), (122.437834, 133.358103), (121.988212, 135.036124), (122.745863, 136.348414)],
                knots=[0, 0, 0, 0, 1, 1, 1, 1], degree=3))
            add(Edge.make_bspline(
                [(122.745863, 136.348414), (123.503515, 137.660706), (125.181534, 138.11033), (126.493826, 137.352678)],
                knots=[0, 0, 0, 0, 1, 1, 1, 1], degree=3))
            add(Edge.make_bspline(
                [(126.493826, 137.352678), (127.806116, 136.595027), (128.255742, 134.917007), (127.49809, 133.604715)],
                knots=[0, 0, 0, 0, 1, 1, 1, 1], degree=3))
            add(Edge.make_bspline(
                [(127.49809, 133.604715), (126.740439, 132.292425), (125.062417, 131.8428), (123.750127, 132.600451)],
                knots=[0, 0, 0, 0, 1, 1, 1, 1], degree=3))
        make_face(mode=Mode.SUBTRACT)
    extrude(amount=BOSS_EXTRUDE5_DEPTH)


solid = part.part
